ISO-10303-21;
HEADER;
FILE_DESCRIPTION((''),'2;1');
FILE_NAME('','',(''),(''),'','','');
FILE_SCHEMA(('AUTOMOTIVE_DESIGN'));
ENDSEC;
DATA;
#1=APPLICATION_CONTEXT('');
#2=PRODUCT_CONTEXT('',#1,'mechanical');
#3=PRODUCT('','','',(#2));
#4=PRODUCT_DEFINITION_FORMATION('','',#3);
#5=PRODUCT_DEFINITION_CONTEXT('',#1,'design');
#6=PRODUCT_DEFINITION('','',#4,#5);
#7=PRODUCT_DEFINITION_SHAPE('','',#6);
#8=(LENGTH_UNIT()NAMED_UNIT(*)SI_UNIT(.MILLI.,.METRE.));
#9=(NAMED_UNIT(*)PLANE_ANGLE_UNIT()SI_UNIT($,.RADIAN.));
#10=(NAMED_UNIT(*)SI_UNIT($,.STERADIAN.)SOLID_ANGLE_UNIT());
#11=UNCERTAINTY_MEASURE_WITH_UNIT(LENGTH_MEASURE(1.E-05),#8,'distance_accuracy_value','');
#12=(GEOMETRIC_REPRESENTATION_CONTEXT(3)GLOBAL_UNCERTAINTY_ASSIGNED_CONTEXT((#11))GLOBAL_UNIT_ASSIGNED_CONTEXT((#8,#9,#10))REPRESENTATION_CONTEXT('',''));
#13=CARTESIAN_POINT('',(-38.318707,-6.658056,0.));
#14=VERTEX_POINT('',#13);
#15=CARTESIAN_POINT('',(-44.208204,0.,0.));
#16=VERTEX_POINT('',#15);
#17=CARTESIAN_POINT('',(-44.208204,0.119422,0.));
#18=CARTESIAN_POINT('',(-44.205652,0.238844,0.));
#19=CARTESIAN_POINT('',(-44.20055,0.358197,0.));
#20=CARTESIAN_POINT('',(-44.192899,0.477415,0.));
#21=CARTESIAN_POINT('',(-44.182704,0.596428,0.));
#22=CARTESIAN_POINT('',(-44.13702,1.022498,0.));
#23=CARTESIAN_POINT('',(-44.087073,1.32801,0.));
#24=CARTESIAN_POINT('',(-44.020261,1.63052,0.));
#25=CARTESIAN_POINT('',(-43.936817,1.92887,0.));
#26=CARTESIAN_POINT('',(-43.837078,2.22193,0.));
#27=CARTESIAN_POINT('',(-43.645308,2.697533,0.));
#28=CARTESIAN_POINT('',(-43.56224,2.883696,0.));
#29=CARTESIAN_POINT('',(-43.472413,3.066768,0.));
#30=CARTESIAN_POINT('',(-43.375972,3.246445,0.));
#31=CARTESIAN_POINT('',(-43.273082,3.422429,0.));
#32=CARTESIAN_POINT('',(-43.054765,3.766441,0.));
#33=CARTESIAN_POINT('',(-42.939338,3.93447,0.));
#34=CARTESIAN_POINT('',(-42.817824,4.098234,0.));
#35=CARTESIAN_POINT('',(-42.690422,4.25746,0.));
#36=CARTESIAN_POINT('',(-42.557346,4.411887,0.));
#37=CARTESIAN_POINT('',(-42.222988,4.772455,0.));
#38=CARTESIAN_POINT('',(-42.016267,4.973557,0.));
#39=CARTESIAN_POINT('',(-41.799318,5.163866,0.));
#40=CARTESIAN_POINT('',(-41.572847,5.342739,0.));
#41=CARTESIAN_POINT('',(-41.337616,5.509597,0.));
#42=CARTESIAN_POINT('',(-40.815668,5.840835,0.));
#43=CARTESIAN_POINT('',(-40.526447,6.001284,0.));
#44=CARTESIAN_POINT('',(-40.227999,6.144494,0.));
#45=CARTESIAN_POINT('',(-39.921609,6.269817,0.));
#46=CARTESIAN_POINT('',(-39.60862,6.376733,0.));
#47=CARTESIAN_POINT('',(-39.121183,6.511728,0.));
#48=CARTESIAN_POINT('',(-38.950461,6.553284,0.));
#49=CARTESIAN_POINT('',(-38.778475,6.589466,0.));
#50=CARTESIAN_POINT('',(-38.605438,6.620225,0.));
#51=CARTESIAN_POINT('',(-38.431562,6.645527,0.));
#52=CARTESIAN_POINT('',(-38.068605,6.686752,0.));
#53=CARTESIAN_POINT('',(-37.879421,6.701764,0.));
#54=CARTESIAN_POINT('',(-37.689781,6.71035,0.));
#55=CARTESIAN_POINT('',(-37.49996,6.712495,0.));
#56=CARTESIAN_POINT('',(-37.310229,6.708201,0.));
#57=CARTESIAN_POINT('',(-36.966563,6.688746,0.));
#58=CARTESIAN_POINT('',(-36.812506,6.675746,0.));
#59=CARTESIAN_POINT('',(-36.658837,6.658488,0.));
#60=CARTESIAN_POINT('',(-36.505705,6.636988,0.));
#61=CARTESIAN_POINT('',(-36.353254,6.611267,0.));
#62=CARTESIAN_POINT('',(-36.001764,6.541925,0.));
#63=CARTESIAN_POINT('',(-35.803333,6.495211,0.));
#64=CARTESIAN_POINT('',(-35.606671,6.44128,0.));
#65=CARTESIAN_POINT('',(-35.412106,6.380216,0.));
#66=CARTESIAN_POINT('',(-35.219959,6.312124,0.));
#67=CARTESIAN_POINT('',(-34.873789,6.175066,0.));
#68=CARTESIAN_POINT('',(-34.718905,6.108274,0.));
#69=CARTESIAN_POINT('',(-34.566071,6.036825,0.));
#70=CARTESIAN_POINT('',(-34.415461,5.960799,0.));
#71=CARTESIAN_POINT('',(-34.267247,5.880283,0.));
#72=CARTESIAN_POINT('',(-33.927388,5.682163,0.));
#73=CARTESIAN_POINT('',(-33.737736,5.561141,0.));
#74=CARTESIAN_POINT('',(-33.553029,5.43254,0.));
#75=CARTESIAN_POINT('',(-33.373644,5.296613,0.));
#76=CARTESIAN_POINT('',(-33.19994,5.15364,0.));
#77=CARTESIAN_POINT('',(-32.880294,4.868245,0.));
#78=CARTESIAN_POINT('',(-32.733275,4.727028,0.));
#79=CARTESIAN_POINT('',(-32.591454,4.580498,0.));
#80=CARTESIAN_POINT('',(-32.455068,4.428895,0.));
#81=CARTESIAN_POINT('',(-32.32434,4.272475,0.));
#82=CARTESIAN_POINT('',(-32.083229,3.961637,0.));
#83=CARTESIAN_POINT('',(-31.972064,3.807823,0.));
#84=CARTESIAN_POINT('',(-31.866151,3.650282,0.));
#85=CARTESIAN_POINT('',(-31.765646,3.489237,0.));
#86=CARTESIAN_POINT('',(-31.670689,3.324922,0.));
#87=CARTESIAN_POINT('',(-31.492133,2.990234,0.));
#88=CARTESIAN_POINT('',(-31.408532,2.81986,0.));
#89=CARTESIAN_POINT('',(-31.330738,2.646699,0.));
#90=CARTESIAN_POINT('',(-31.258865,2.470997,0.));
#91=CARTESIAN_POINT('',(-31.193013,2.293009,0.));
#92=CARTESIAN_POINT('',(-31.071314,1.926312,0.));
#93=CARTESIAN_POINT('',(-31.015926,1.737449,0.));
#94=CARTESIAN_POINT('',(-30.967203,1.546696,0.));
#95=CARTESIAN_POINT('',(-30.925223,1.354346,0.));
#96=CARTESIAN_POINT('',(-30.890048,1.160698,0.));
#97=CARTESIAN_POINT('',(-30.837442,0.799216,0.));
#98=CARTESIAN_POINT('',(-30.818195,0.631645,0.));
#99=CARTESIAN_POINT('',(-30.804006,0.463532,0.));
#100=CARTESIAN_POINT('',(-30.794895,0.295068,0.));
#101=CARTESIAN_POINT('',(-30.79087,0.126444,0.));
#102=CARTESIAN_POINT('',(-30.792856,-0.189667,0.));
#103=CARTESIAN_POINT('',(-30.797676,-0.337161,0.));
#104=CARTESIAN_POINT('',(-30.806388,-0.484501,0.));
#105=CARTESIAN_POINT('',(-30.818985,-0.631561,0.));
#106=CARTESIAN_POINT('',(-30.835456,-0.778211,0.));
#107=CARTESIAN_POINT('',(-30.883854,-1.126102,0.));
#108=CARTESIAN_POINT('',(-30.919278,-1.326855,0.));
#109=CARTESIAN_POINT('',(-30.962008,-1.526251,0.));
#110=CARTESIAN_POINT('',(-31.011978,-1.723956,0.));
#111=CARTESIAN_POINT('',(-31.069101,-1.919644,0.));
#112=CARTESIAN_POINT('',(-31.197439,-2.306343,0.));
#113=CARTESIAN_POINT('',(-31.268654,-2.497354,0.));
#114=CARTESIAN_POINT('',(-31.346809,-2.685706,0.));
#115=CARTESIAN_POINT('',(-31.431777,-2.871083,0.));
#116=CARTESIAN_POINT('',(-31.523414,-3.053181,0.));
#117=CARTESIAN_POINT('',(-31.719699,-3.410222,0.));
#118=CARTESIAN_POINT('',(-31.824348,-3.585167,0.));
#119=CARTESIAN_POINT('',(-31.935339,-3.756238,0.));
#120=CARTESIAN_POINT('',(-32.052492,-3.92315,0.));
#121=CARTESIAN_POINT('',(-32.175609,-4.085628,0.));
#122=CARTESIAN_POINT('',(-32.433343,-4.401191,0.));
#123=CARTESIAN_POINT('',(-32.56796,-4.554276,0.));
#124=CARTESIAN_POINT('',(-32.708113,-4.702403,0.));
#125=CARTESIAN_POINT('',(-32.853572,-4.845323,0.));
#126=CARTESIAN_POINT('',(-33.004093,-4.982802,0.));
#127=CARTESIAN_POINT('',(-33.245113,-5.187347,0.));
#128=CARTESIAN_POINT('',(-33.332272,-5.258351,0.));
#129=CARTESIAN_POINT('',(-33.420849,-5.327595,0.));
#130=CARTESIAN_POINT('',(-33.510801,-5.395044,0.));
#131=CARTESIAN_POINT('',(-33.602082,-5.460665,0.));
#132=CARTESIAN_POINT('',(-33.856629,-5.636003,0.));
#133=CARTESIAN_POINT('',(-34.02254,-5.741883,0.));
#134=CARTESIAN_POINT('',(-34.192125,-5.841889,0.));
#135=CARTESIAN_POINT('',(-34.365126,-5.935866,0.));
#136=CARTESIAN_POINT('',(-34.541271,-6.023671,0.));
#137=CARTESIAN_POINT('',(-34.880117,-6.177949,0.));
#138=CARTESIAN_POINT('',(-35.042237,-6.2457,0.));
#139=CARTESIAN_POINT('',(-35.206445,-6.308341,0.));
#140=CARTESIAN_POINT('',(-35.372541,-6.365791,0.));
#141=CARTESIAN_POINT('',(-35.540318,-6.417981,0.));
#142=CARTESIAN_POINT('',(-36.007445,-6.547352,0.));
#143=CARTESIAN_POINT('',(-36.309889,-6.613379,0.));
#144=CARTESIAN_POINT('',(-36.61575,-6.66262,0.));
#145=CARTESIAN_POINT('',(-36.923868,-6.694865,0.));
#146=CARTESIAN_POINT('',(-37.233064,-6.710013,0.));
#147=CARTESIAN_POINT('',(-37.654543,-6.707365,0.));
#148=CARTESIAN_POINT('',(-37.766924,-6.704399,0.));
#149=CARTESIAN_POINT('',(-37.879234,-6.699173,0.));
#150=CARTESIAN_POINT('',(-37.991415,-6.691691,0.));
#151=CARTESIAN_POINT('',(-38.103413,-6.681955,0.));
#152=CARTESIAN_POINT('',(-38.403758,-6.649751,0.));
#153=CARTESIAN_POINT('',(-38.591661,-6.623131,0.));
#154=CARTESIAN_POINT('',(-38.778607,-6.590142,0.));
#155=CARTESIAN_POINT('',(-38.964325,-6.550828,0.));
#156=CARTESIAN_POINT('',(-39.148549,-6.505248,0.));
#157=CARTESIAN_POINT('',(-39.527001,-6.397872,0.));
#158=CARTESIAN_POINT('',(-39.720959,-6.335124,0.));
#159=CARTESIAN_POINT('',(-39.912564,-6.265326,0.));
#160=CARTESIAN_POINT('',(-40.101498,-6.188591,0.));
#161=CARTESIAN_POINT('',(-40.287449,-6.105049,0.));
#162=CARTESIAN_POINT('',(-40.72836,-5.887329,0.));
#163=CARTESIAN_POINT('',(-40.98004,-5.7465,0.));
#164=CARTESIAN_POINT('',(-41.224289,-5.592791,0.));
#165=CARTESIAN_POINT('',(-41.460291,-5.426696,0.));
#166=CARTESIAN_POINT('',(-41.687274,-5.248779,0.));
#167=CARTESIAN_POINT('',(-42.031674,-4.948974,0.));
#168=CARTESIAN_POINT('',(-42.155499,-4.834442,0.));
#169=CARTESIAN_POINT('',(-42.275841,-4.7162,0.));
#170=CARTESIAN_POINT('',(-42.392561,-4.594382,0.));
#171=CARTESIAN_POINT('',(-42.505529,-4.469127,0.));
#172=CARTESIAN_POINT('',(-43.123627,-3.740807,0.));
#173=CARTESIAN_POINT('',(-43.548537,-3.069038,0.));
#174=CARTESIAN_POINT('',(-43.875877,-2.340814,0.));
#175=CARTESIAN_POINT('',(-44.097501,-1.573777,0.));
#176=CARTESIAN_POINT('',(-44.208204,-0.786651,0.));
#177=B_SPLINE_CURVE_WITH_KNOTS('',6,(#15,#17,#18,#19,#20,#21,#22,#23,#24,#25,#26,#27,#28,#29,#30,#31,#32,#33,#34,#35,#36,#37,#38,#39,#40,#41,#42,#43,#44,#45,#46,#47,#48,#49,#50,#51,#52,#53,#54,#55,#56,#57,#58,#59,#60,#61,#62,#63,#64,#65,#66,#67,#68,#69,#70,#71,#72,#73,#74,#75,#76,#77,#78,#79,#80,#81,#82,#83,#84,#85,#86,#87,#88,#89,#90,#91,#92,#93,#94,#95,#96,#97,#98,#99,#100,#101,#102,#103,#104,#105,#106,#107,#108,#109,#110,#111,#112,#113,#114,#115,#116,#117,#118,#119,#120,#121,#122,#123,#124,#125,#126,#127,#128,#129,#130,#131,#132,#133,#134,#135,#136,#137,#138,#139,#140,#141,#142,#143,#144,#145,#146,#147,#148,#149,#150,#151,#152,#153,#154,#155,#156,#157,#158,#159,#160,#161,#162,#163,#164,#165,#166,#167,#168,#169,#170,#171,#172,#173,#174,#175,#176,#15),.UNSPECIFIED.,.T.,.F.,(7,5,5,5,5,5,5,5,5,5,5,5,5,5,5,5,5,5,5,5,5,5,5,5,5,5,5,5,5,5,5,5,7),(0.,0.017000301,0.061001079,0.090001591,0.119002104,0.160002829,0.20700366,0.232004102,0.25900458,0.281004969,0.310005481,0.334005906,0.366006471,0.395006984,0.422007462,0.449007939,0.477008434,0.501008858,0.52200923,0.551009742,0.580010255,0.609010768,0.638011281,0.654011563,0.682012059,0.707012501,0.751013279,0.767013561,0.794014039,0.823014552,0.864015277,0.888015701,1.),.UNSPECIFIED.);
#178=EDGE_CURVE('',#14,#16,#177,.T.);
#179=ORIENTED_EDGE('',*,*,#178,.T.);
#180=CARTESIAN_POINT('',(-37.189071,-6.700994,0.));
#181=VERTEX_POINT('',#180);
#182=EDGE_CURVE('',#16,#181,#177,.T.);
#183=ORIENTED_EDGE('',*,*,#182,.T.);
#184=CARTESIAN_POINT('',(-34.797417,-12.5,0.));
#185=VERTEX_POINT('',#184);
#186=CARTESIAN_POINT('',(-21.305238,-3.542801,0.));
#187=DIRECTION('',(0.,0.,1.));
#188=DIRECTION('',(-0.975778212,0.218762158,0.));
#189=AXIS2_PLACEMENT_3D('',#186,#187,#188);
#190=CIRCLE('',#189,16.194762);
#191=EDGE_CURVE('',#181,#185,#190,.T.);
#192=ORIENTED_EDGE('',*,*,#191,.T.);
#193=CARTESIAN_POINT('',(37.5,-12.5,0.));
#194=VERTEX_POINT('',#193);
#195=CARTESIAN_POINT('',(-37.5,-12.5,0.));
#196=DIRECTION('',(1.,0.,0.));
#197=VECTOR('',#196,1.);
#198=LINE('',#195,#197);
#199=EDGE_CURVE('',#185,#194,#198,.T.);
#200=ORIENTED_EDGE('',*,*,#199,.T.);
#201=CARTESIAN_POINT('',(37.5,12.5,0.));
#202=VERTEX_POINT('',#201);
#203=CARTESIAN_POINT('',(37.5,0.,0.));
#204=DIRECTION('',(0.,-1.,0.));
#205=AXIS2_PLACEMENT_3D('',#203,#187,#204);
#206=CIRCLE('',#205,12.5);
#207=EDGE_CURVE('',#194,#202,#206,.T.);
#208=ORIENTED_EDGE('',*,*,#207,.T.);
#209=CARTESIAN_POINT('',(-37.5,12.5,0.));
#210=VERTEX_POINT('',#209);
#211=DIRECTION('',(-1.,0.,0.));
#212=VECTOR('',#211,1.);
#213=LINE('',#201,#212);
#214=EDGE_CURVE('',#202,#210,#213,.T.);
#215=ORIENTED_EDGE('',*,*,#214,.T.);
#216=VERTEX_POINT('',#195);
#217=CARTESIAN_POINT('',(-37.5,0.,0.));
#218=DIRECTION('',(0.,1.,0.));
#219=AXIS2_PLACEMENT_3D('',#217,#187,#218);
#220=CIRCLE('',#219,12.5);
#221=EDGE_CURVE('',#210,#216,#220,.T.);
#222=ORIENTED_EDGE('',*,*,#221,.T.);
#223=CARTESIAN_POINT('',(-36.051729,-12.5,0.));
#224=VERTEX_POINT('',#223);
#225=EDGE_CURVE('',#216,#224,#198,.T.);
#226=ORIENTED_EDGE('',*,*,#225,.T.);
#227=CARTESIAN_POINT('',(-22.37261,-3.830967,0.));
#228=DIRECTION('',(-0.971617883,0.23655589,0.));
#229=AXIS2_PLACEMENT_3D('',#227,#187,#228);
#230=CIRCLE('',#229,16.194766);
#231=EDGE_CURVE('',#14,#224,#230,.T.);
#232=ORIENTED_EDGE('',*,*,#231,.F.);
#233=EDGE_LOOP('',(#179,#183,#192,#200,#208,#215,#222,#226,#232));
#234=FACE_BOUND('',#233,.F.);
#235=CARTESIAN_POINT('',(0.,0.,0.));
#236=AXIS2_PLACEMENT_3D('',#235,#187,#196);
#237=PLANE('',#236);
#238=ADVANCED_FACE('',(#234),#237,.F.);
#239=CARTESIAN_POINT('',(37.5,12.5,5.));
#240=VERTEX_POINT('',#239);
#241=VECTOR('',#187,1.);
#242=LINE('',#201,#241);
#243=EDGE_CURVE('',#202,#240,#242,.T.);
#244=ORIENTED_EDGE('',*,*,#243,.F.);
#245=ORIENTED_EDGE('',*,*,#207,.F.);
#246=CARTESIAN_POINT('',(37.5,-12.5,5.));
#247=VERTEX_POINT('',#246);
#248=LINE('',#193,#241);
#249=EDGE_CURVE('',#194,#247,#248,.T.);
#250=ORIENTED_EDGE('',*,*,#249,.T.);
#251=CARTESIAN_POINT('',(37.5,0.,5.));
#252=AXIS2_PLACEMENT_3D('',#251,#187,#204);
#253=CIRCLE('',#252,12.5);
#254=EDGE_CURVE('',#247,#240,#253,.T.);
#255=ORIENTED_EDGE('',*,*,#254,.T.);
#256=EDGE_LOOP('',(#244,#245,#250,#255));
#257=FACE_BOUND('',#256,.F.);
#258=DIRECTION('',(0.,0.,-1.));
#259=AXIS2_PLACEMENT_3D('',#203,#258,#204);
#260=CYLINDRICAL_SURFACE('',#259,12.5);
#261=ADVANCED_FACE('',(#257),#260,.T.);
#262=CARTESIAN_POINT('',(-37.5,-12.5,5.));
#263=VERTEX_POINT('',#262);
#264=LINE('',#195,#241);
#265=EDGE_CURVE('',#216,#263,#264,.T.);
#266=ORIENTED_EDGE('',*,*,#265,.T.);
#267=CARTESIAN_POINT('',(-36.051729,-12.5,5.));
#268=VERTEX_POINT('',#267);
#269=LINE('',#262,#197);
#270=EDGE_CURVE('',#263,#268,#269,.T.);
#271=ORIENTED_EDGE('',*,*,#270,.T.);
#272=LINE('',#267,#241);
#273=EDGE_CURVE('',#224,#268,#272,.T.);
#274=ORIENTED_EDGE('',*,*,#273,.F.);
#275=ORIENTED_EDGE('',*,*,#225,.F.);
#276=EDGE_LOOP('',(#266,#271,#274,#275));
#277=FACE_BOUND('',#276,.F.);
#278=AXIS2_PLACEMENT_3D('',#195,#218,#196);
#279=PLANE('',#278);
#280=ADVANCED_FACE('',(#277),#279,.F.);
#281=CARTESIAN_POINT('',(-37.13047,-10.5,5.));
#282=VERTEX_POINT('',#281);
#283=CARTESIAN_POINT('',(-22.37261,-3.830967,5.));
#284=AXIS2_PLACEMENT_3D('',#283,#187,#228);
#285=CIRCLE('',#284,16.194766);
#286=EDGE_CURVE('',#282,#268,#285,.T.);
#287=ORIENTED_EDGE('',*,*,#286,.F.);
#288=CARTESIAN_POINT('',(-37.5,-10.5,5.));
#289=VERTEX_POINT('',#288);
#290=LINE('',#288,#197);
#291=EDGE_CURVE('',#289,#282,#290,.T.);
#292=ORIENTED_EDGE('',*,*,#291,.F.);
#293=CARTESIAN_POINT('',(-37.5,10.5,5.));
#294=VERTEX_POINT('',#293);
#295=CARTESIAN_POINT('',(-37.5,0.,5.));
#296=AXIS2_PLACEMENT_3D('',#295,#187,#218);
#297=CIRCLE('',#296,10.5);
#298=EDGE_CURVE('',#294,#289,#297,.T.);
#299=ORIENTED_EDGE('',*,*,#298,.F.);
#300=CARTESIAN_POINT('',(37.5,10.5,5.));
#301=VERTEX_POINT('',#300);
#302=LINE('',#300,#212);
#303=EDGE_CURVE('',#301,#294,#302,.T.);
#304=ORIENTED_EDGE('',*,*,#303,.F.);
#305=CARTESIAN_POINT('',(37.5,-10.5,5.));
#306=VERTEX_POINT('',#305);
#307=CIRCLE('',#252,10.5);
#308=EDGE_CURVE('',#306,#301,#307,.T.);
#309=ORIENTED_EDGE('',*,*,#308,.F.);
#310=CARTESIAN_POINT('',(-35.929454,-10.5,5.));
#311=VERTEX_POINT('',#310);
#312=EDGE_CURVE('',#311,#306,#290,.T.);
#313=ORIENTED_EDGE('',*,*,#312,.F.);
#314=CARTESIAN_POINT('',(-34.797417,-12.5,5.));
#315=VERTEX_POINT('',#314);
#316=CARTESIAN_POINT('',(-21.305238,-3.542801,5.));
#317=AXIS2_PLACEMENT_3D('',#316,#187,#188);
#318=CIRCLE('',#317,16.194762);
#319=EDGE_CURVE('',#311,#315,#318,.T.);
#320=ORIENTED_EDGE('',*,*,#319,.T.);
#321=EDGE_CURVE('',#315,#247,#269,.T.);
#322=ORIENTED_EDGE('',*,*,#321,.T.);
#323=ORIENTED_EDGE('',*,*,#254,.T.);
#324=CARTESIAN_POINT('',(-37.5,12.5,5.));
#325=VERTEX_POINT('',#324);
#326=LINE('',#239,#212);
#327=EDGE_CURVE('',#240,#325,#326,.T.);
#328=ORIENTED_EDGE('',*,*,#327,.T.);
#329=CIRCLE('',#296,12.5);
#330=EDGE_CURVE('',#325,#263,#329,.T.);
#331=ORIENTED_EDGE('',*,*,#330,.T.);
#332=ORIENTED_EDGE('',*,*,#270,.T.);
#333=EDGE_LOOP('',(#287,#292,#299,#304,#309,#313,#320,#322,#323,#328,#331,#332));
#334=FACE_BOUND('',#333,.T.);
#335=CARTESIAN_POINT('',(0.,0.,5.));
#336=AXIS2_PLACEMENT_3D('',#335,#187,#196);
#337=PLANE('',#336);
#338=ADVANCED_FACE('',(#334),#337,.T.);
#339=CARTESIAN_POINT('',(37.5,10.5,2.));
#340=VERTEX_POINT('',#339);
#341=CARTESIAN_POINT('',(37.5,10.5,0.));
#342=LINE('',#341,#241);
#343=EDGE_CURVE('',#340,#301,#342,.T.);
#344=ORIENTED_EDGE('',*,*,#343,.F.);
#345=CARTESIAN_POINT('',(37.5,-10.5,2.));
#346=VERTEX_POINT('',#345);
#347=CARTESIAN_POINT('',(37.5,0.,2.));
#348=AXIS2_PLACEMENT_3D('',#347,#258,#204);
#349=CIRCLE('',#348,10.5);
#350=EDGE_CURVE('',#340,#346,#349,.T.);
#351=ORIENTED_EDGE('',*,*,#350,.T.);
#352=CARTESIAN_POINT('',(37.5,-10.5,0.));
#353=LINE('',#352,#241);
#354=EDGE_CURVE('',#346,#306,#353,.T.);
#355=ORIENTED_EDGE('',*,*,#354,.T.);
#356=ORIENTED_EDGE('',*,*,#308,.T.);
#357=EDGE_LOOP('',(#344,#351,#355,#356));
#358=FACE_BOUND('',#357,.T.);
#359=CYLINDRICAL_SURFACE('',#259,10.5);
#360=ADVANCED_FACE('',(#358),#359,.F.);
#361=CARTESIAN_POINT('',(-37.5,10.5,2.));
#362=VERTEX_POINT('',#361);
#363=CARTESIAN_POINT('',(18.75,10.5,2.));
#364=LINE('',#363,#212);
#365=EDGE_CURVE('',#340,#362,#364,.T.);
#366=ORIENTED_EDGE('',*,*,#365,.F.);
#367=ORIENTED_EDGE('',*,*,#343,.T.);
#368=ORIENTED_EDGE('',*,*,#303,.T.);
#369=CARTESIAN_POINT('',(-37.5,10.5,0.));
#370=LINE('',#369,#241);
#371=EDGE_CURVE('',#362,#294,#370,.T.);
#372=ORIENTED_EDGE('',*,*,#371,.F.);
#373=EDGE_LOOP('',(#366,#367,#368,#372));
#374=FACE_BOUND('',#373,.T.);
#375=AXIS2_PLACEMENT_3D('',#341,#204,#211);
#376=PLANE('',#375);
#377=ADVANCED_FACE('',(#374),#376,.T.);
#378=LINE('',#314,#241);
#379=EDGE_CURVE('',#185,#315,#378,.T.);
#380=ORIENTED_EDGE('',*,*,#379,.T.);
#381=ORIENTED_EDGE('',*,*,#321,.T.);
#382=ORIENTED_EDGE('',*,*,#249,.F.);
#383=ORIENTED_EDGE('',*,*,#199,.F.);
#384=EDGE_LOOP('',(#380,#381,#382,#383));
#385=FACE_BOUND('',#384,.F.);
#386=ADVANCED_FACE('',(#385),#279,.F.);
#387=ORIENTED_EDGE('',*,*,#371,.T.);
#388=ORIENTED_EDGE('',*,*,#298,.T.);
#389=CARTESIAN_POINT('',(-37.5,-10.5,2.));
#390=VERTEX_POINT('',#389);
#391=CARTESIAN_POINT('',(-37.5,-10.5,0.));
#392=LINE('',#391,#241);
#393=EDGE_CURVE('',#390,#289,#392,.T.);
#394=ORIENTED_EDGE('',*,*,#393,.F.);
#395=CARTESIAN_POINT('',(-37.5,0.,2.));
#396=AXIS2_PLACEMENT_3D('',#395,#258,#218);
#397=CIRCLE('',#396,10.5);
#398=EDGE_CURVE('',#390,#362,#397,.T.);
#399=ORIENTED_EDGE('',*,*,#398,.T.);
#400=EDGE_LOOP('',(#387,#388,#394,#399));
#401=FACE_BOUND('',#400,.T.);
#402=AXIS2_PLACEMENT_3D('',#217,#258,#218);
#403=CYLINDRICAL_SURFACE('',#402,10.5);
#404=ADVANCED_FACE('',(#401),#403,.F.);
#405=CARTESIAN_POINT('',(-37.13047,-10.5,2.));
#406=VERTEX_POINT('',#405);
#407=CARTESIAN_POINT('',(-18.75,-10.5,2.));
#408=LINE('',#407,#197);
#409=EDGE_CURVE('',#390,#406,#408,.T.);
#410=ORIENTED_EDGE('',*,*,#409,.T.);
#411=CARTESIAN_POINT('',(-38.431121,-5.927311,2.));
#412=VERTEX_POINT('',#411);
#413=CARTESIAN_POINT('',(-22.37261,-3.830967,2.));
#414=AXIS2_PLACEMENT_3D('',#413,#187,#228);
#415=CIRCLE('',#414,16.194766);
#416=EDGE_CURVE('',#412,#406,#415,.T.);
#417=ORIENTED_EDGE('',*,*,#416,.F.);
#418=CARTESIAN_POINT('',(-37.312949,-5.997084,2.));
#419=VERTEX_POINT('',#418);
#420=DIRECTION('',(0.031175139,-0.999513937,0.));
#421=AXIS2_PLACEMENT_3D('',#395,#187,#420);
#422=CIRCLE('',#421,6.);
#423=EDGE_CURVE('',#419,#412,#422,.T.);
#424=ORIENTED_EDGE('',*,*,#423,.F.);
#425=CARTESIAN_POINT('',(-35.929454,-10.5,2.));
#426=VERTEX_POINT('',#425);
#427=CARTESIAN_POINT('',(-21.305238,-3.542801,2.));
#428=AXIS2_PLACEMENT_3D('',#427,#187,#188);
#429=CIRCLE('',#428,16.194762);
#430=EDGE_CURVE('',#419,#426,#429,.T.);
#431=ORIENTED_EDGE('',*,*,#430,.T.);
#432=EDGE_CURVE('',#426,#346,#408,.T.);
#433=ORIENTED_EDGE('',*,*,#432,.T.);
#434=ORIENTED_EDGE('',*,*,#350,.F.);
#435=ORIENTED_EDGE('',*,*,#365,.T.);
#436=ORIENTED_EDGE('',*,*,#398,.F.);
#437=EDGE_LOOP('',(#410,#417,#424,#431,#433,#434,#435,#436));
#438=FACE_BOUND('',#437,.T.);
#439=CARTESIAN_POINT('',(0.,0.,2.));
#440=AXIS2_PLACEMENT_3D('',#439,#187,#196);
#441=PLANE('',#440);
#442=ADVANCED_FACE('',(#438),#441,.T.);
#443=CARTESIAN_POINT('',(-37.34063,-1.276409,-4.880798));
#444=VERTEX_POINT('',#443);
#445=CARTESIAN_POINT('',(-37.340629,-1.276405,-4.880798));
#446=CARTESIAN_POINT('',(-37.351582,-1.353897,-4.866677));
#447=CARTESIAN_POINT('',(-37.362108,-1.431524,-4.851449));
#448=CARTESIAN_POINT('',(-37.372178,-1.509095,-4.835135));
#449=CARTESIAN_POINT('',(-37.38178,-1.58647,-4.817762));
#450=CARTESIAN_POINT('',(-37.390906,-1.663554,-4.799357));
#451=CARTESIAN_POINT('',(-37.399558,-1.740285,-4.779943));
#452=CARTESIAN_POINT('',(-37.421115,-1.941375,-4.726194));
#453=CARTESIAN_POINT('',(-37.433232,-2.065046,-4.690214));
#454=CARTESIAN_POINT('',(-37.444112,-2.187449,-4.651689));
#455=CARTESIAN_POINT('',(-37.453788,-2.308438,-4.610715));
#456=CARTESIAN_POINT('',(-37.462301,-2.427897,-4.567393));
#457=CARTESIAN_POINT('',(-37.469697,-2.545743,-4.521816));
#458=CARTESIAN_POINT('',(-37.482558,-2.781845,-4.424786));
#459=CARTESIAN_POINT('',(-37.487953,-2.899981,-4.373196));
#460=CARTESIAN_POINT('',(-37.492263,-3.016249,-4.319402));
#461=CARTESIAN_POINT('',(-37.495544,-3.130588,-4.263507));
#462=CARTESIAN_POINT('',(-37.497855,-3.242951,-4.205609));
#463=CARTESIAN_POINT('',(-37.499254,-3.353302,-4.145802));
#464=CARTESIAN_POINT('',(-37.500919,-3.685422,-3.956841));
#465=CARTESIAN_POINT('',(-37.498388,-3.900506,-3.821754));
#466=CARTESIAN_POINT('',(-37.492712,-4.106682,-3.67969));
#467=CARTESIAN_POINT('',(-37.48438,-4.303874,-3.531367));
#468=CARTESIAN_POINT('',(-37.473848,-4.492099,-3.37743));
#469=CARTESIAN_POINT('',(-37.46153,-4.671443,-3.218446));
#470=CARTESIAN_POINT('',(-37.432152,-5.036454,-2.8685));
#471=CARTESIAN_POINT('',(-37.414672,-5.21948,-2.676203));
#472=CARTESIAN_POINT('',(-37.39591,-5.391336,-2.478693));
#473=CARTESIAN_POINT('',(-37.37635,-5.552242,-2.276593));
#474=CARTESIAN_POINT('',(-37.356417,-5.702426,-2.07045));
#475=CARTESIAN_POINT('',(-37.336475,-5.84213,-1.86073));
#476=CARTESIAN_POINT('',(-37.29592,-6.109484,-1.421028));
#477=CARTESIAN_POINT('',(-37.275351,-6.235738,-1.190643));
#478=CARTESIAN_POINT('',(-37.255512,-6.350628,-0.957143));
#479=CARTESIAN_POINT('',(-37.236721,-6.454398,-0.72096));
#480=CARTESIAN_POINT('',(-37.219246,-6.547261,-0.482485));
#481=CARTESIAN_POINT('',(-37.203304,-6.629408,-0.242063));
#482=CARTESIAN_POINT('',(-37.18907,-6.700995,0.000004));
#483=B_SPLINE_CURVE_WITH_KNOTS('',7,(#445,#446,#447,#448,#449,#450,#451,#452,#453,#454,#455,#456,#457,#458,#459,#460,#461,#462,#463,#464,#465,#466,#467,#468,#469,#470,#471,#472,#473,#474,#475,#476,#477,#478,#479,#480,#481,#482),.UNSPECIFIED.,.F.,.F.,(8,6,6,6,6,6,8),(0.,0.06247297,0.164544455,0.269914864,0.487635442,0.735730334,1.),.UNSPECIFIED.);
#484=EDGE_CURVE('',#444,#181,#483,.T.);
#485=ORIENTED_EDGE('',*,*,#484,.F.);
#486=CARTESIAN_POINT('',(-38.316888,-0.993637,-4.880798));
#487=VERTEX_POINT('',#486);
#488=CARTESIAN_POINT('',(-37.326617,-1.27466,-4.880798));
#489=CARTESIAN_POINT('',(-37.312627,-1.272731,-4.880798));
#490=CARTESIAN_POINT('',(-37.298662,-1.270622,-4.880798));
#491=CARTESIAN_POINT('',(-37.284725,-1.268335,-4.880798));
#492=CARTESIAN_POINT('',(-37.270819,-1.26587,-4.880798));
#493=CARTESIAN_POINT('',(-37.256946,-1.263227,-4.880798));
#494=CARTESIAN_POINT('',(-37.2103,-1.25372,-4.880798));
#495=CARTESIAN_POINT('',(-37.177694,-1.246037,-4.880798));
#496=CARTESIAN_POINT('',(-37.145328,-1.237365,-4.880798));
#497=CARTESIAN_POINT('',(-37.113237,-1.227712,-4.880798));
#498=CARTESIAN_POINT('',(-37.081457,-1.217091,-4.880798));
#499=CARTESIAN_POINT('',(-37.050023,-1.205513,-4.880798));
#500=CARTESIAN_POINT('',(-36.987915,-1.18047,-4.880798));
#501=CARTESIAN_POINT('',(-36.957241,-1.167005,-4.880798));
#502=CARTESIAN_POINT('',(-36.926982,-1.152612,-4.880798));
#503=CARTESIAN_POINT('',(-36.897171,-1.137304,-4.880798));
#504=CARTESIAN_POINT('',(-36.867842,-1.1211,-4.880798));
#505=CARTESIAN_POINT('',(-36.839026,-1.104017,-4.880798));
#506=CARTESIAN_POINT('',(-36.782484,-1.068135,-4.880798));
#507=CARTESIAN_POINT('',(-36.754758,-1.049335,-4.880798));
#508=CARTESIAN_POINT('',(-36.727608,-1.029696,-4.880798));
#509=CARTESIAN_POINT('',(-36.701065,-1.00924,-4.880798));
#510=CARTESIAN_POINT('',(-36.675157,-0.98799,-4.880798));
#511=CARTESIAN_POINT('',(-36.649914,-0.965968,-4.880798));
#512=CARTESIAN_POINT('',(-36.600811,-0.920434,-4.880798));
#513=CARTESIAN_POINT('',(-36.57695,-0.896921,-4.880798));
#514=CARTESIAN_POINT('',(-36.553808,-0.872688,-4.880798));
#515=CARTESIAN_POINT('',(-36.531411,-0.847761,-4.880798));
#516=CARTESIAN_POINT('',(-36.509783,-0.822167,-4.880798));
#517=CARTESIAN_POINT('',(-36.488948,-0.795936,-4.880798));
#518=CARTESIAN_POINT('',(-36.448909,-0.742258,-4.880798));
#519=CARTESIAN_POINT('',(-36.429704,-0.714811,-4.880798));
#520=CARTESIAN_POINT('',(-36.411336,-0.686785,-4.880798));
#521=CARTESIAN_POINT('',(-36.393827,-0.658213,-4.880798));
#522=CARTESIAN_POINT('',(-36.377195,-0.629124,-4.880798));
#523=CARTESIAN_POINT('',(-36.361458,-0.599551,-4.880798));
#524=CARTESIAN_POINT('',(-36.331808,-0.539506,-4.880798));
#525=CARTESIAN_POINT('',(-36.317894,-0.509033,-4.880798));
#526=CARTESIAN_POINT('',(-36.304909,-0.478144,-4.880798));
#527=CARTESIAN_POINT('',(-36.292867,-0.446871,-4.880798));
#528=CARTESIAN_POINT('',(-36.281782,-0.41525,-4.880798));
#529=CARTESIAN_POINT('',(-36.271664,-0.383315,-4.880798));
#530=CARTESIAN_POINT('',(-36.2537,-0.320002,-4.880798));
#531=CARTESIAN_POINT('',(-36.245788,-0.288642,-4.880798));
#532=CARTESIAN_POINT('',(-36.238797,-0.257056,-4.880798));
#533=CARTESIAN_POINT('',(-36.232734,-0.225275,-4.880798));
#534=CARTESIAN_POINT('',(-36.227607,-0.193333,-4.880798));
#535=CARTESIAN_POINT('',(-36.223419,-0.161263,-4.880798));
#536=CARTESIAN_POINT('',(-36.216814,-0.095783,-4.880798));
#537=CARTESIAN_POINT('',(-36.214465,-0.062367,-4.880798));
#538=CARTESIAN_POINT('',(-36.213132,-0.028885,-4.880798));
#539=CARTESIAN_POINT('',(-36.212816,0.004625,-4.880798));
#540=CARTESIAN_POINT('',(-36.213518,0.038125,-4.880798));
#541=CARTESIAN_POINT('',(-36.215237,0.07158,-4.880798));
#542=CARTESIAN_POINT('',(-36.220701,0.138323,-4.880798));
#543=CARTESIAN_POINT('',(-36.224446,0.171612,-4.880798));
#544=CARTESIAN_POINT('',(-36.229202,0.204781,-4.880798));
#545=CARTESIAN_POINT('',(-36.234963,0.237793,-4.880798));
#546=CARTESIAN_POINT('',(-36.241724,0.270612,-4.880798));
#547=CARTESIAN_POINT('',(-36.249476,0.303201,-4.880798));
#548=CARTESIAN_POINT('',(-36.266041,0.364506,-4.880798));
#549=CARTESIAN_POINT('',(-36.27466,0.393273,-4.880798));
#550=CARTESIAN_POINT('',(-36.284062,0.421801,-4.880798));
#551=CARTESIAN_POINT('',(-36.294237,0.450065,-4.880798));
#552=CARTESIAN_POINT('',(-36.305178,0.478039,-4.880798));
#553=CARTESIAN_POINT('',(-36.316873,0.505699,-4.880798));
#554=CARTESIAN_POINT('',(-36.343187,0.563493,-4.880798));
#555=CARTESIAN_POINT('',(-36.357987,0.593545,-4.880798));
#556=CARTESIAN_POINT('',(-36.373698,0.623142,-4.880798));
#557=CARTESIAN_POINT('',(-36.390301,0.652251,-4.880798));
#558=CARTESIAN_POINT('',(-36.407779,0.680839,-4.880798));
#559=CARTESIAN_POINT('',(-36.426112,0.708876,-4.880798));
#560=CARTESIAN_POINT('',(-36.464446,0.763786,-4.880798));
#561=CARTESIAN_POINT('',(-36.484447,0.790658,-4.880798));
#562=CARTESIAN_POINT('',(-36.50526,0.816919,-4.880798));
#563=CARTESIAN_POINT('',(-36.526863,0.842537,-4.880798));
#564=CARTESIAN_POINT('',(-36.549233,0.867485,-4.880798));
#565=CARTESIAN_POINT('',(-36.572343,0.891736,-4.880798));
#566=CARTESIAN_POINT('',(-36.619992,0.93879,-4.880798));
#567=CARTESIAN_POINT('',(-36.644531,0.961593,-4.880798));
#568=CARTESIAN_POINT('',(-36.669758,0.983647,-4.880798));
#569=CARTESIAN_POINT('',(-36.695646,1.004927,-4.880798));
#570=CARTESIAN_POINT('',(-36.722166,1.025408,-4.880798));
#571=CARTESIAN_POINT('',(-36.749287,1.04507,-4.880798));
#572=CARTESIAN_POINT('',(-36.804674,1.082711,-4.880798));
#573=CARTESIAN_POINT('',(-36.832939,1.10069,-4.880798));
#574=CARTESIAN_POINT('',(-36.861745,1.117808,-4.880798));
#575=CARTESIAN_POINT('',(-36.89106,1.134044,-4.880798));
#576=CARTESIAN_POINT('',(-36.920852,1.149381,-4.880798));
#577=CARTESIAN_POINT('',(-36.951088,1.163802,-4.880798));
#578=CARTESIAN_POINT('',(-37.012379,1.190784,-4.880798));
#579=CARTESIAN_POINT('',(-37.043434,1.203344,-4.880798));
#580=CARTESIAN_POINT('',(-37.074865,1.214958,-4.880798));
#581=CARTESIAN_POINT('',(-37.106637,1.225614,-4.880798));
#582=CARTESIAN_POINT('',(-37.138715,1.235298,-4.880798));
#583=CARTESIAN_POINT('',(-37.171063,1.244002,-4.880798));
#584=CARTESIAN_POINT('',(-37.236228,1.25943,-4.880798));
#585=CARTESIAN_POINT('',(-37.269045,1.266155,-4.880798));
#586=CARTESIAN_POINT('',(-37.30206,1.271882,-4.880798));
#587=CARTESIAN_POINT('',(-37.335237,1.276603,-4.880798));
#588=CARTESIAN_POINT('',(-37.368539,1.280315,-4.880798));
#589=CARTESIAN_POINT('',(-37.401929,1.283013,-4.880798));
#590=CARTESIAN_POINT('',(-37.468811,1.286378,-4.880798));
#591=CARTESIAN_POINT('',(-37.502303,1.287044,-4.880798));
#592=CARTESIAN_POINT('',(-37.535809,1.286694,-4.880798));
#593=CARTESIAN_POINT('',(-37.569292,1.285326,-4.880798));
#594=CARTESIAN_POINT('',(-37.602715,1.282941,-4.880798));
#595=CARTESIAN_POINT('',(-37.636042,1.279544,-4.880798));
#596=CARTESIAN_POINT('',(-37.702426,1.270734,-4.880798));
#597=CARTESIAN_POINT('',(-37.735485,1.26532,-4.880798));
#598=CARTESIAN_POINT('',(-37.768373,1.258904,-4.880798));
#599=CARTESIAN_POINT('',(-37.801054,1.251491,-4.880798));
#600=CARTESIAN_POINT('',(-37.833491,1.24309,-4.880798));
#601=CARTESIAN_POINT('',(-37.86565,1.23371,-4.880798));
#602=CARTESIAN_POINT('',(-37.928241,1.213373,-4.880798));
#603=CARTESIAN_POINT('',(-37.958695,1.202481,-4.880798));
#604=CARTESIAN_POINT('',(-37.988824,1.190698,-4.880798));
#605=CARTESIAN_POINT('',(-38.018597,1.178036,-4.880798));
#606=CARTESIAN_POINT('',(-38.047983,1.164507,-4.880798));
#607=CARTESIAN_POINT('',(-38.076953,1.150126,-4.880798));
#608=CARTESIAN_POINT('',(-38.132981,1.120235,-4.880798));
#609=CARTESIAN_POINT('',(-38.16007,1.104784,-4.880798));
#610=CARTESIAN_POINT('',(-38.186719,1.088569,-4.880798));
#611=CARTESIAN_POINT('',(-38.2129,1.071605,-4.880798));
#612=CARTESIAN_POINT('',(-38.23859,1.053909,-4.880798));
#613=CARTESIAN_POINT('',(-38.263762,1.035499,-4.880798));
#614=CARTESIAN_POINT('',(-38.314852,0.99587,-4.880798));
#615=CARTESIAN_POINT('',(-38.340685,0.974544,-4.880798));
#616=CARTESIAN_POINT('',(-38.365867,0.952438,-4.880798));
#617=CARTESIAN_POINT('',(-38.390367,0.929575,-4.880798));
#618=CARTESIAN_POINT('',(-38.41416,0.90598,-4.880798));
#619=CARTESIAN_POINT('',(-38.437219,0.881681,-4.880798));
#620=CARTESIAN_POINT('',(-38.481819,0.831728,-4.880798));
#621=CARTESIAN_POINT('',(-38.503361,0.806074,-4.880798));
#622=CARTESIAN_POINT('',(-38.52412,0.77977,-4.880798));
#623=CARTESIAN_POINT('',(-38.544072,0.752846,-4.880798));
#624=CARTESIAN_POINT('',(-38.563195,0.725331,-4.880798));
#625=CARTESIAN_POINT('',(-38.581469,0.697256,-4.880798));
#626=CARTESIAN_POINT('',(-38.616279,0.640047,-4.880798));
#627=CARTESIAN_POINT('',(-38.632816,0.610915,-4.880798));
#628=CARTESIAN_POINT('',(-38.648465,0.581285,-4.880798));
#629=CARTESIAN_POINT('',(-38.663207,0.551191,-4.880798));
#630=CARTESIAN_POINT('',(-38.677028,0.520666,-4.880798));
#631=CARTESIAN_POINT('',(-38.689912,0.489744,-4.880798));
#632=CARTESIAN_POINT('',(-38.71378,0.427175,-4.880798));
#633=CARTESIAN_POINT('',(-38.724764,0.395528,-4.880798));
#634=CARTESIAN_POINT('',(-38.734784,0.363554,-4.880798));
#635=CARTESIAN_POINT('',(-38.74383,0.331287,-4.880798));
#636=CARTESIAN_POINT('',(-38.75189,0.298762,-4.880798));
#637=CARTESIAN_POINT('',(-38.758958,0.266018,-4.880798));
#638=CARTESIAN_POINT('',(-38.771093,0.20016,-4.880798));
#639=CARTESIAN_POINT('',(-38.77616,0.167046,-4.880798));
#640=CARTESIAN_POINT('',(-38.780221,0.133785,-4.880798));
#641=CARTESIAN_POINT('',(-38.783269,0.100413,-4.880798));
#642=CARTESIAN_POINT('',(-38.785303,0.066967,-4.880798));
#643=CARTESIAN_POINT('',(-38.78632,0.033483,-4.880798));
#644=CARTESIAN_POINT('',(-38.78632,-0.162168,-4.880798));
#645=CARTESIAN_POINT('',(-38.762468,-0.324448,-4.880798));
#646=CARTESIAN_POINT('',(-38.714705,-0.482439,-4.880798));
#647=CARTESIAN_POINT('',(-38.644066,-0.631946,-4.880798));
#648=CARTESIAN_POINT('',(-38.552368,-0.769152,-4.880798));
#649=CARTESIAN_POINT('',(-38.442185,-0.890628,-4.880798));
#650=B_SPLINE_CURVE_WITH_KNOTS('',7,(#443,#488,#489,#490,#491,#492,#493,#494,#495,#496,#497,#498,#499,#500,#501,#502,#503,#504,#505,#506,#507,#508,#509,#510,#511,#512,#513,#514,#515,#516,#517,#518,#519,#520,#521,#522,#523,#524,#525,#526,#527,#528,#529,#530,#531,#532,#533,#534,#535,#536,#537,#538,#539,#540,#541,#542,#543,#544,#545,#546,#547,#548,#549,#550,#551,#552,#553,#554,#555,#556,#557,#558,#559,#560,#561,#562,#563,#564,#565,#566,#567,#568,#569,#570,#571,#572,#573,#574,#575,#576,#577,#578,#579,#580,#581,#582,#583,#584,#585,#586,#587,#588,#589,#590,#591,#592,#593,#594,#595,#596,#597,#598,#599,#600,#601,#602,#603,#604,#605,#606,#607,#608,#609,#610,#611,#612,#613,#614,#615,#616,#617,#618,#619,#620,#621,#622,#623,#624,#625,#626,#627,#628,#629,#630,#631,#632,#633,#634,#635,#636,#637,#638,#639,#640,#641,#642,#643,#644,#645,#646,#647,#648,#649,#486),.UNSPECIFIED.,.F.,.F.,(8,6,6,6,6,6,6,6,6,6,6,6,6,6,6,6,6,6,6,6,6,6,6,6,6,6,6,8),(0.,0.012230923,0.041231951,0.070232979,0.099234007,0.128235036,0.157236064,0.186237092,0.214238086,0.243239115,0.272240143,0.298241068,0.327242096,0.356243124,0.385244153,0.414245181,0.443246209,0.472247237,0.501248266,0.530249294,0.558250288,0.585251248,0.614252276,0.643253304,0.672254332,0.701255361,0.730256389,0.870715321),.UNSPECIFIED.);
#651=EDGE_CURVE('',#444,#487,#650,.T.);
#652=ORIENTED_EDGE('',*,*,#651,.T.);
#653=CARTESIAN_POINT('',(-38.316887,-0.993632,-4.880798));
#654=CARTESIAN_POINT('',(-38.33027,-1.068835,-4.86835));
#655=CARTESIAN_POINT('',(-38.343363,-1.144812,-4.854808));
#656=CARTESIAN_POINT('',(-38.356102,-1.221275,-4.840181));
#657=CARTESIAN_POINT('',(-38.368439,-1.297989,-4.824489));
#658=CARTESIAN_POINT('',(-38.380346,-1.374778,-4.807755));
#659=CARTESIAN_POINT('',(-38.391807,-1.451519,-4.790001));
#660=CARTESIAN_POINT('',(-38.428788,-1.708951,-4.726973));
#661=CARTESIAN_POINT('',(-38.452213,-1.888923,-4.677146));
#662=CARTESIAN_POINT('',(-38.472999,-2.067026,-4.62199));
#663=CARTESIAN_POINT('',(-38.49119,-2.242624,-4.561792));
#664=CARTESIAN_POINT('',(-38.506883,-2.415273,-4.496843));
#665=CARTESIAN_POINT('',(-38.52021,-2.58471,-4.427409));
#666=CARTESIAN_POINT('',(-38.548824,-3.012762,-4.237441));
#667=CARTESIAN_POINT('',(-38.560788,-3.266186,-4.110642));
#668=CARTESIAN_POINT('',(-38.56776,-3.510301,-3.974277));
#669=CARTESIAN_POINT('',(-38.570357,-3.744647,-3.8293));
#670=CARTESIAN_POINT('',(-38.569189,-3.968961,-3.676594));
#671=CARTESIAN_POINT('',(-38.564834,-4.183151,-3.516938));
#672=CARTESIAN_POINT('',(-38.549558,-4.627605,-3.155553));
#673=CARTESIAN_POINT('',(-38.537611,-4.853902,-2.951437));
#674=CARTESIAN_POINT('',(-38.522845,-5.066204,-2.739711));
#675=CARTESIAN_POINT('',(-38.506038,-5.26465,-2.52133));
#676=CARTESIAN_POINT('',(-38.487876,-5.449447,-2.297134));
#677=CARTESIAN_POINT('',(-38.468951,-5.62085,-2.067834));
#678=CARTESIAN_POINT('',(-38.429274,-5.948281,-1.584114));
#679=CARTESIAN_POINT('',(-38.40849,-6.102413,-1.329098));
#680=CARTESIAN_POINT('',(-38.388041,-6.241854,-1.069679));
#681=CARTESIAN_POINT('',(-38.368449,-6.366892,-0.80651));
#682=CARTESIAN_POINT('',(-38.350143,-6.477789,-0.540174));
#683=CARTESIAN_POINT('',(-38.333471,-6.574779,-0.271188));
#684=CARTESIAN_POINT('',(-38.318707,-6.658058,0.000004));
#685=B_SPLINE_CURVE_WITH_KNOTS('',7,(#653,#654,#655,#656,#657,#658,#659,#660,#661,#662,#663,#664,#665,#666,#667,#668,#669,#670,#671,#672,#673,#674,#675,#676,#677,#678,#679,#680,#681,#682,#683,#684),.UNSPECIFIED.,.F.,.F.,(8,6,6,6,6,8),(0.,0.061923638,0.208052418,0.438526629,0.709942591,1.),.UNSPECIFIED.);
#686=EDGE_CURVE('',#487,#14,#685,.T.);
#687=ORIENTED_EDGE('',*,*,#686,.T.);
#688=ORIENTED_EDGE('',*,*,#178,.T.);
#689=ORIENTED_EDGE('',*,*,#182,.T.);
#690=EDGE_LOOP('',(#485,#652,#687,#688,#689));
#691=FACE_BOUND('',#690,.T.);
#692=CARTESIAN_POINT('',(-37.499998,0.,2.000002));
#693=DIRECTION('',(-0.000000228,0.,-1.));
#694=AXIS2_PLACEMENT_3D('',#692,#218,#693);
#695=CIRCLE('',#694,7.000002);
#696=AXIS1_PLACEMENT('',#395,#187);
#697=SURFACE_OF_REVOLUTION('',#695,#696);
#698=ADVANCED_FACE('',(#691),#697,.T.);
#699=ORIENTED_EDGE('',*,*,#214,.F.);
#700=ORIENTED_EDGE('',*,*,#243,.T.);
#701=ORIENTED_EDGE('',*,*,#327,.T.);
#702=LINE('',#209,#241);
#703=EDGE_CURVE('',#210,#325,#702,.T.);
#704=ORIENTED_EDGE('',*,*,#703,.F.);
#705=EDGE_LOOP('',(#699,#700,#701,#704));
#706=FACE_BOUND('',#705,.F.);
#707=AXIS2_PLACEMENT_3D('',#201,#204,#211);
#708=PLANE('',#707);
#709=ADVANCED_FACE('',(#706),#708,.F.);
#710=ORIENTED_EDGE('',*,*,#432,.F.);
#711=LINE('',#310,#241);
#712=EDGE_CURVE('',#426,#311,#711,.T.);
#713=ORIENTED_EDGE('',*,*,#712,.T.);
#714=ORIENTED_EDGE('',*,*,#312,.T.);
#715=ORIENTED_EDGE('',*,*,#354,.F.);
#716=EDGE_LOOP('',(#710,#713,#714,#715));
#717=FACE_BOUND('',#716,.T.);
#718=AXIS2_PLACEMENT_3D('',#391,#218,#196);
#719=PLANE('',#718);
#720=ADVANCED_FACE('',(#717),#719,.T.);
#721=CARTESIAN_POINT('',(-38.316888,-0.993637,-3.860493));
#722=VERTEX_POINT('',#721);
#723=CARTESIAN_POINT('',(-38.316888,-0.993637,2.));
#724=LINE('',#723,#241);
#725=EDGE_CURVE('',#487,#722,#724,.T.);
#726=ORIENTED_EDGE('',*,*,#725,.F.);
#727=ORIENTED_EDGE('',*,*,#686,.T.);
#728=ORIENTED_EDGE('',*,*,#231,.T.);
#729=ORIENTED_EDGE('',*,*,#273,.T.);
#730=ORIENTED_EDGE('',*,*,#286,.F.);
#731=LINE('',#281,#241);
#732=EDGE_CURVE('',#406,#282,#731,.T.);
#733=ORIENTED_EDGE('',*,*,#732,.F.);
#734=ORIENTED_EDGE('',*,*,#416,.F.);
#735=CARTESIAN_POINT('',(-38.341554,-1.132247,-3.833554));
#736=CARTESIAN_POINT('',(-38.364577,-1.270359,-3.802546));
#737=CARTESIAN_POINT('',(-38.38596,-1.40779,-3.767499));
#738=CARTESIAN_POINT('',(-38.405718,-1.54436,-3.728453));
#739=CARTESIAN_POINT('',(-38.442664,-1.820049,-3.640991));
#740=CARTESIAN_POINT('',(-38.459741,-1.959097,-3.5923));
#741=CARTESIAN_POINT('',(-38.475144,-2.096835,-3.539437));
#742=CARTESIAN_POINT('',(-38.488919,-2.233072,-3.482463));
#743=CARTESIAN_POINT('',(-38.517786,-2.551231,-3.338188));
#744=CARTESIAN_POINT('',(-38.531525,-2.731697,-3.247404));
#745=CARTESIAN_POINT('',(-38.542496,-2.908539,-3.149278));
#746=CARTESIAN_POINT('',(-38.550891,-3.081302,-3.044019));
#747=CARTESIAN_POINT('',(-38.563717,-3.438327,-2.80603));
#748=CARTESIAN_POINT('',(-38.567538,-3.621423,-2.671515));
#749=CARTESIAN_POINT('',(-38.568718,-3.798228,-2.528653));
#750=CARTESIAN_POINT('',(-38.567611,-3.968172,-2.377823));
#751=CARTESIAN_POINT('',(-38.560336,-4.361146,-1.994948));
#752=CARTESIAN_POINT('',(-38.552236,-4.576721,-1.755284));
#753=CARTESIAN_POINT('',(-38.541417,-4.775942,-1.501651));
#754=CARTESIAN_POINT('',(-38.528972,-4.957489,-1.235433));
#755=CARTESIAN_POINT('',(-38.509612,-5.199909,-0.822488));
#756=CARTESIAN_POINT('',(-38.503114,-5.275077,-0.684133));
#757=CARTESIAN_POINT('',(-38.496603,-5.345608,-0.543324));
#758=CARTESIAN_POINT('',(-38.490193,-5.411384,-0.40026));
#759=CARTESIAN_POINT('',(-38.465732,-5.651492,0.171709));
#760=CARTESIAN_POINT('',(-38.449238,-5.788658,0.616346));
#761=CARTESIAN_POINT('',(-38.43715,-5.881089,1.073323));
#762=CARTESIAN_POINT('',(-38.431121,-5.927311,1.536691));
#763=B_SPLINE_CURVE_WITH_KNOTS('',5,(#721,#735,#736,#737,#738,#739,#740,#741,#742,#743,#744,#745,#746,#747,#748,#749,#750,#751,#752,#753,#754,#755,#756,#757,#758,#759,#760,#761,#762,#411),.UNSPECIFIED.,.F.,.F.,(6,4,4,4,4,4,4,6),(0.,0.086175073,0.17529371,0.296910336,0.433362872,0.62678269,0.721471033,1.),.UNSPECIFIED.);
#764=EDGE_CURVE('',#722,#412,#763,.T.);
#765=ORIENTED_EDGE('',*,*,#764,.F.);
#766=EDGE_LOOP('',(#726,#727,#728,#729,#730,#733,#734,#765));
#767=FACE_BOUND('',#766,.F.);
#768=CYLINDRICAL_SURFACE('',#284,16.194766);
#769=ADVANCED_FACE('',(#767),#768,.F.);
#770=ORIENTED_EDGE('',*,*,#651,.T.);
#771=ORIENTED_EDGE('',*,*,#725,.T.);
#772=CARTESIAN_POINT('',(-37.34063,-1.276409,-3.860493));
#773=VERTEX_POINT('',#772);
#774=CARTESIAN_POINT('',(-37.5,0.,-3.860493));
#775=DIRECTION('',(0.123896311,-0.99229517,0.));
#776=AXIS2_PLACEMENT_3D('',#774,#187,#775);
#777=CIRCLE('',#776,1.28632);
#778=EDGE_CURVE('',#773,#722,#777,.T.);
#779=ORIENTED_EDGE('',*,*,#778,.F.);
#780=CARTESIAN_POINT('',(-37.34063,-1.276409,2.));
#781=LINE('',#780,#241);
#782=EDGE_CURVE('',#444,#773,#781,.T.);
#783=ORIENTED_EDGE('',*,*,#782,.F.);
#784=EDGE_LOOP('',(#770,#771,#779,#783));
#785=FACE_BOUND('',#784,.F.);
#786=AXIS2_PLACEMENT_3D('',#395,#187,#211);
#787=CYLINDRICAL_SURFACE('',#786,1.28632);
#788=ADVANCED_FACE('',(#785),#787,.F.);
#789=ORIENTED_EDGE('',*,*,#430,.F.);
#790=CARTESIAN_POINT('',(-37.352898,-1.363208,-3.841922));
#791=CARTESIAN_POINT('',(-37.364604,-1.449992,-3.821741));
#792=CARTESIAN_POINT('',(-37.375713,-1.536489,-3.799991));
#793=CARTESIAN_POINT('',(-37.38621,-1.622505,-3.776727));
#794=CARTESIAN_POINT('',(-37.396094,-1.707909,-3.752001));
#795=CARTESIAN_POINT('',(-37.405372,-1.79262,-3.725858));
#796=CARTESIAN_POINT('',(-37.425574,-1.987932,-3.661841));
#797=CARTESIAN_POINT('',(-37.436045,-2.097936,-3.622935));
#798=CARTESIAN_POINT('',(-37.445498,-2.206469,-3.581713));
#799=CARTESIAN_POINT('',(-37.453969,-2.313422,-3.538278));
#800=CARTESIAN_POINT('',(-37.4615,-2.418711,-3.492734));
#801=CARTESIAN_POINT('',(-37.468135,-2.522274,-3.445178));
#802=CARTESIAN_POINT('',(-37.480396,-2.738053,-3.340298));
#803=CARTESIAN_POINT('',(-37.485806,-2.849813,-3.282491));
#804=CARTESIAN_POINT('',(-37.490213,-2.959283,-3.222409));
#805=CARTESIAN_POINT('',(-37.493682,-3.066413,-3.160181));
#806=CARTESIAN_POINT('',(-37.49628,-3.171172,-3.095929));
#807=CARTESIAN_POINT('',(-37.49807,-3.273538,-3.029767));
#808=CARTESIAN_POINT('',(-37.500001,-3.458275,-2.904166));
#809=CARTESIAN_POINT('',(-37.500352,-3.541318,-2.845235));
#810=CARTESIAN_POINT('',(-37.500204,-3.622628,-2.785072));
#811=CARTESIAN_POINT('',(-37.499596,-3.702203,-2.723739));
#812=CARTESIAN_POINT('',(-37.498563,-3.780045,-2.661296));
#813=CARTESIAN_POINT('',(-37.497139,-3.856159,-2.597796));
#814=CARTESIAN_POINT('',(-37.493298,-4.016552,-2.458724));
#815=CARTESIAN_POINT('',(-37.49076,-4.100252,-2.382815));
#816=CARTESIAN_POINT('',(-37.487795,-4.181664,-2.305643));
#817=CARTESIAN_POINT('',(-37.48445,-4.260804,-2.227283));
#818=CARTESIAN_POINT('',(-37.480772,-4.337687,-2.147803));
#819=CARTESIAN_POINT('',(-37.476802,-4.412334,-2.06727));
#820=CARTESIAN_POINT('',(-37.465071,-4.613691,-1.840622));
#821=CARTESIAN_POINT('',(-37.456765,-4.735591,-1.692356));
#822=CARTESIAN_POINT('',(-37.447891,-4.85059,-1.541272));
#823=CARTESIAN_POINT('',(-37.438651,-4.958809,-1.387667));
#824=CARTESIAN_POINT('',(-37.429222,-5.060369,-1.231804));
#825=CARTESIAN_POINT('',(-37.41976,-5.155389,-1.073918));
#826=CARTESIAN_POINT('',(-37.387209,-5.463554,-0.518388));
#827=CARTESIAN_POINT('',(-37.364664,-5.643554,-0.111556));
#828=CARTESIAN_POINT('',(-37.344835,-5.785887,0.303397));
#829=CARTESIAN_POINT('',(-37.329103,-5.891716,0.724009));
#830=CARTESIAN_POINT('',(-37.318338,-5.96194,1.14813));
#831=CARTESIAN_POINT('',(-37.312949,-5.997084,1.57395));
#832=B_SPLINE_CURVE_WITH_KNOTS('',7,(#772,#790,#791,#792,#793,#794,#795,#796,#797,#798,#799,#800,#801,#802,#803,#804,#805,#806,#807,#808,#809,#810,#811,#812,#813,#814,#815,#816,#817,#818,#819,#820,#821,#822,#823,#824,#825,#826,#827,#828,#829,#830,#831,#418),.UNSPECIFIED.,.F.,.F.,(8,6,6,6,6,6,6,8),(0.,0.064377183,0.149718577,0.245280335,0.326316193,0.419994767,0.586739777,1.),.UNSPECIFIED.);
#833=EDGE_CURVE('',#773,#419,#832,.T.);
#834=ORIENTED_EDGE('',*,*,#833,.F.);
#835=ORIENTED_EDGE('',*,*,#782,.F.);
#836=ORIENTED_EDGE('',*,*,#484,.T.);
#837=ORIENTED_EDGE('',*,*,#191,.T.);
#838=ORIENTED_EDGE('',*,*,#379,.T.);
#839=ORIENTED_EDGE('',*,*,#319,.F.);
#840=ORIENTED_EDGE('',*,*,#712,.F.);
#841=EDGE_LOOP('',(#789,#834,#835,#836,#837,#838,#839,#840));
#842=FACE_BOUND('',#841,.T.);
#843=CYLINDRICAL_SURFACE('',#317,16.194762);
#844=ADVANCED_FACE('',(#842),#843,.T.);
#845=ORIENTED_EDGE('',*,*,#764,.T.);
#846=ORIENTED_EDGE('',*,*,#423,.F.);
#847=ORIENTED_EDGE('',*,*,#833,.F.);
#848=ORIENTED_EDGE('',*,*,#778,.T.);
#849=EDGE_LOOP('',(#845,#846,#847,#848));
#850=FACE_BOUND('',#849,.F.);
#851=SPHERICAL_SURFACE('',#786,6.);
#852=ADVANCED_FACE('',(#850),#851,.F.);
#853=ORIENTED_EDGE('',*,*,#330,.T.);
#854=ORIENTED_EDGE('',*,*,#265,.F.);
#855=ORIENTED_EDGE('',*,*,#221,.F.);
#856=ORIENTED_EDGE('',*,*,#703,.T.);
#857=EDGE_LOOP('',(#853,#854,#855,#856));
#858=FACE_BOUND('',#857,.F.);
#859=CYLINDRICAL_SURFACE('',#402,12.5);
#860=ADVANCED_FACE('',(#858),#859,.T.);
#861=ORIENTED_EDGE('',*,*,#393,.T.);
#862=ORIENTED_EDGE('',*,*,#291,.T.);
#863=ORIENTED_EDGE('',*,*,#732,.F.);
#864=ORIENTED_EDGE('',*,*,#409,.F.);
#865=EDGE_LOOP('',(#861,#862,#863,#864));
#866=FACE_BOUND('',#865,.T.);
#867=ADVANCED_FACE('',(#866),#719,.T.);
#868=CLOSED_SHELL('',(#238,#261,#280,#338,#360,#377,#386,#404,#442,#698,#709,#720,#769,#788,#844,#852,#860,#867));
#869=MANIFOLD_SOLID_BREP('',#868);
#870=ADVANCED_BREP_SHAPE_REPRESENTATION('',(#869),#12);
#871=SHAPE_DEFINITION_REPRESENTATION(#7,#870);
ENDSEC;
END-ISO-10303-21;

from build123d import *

# Parameters (mm, degrees)
PAD_DEPTH       = 5
THICKNESS_T     = -2
SKETCH001_R     = 1.28632
POCKET_DEPTH    = 7.001
POCKET001_DEPTH = 9.881798


with BuildPart() as part:
    # Sketch → Pad (new body)
    with BuildSketch(Plane.XY):
        with BuildLine():
            ThreePointArc((-37.5, 12.5), (-50, 0), (-37.5, -12.5))
            Line((-37.5, -12.5), (37.5, -12.5))
            ThreePointArc((37.5, -12.5), (50, 0), (37.5, 12.5))
            Line((37.5, 12.5), (-37.5, 12.5))
        make_face()
    extrude(amount=PAD_DEPTH)

    # Thickness
    thickness_openings = [part.faces().sort_by_distance(p)[0] for p in [
        (0, 0, 5),
    ]]
    offset(amount=THICKNESS_T, openings=thickness_openings)

    # Sphere → Sphere (revolve)
    with BuildSketch(Plane(origin=(-37.5, 0, 2), x_dir=(-1, 0, 0), z_dir=(0, 1, 0))):
        with BuildLine():
            ThreePointArc((0, -7), (4.949747, -4.949747), (7, 0))
            Line((7, 0), (0, 0))
            Line((0, 0), (0, -7))
        make_face()
    revolve(axis=Axis((-37.5, 0, 2), (0, 0, 1)))

    # Sphere001 → Sphere001 (revolve, cut)
    with BuildSketch(Plane(origin=(-37.5, 0, 2), x_dir=(-1, 0, 0), z_dir=(0, 1, 0))):
        with BuildLine():
            ThreePointArc((0, -6), (6, 0), (0, 6))
            Line((0, 6), (0, -6))
        make_face()
    revolve(axis=Axis((-37.5, 0, 2), (0, 0, 1)), mode=Mode.SUBTRACT)

    # Sketch001 (on Face12 of Sphere001) → Pocket (cut, through all)
    with BuildSketch(Plane(origin=(-37.5, 0, 2), x_dir=(-1, 0, 0), z_dir=(0, 0, 1))):
        Circle(SKETCH001_R)
    extrude(amount=-POCKET_DEPTH, mode=Mode.SUBTRACT)

    # Sketch002 (on Face5 of Pocket) → Pocket001 (cut, through all)
    with BuildSketch(Plane(origin=(-37.5, 0, 5), x_dir=(-1, 0, 0), z_dir=(0, 0, 1))):
        with BuildLine():
            ThreePointArc((-0.392266, 0), (-0.858786, 8.746469), (-5.81133, 15.97078))
            Line((-5.81133, 15.97078), (-5.640447, 16.956071))
            ThreePointArc((0.607734, 0), (0.068506, 9.430537), (-5.640447, 16.956071))
            Line((-0.392266, 0), (0.607734, 0))
        make_face()
    extrude(amount=-POCKET001_DEPTH, mode=Mode.SUBTRACT)


solid = part.part
